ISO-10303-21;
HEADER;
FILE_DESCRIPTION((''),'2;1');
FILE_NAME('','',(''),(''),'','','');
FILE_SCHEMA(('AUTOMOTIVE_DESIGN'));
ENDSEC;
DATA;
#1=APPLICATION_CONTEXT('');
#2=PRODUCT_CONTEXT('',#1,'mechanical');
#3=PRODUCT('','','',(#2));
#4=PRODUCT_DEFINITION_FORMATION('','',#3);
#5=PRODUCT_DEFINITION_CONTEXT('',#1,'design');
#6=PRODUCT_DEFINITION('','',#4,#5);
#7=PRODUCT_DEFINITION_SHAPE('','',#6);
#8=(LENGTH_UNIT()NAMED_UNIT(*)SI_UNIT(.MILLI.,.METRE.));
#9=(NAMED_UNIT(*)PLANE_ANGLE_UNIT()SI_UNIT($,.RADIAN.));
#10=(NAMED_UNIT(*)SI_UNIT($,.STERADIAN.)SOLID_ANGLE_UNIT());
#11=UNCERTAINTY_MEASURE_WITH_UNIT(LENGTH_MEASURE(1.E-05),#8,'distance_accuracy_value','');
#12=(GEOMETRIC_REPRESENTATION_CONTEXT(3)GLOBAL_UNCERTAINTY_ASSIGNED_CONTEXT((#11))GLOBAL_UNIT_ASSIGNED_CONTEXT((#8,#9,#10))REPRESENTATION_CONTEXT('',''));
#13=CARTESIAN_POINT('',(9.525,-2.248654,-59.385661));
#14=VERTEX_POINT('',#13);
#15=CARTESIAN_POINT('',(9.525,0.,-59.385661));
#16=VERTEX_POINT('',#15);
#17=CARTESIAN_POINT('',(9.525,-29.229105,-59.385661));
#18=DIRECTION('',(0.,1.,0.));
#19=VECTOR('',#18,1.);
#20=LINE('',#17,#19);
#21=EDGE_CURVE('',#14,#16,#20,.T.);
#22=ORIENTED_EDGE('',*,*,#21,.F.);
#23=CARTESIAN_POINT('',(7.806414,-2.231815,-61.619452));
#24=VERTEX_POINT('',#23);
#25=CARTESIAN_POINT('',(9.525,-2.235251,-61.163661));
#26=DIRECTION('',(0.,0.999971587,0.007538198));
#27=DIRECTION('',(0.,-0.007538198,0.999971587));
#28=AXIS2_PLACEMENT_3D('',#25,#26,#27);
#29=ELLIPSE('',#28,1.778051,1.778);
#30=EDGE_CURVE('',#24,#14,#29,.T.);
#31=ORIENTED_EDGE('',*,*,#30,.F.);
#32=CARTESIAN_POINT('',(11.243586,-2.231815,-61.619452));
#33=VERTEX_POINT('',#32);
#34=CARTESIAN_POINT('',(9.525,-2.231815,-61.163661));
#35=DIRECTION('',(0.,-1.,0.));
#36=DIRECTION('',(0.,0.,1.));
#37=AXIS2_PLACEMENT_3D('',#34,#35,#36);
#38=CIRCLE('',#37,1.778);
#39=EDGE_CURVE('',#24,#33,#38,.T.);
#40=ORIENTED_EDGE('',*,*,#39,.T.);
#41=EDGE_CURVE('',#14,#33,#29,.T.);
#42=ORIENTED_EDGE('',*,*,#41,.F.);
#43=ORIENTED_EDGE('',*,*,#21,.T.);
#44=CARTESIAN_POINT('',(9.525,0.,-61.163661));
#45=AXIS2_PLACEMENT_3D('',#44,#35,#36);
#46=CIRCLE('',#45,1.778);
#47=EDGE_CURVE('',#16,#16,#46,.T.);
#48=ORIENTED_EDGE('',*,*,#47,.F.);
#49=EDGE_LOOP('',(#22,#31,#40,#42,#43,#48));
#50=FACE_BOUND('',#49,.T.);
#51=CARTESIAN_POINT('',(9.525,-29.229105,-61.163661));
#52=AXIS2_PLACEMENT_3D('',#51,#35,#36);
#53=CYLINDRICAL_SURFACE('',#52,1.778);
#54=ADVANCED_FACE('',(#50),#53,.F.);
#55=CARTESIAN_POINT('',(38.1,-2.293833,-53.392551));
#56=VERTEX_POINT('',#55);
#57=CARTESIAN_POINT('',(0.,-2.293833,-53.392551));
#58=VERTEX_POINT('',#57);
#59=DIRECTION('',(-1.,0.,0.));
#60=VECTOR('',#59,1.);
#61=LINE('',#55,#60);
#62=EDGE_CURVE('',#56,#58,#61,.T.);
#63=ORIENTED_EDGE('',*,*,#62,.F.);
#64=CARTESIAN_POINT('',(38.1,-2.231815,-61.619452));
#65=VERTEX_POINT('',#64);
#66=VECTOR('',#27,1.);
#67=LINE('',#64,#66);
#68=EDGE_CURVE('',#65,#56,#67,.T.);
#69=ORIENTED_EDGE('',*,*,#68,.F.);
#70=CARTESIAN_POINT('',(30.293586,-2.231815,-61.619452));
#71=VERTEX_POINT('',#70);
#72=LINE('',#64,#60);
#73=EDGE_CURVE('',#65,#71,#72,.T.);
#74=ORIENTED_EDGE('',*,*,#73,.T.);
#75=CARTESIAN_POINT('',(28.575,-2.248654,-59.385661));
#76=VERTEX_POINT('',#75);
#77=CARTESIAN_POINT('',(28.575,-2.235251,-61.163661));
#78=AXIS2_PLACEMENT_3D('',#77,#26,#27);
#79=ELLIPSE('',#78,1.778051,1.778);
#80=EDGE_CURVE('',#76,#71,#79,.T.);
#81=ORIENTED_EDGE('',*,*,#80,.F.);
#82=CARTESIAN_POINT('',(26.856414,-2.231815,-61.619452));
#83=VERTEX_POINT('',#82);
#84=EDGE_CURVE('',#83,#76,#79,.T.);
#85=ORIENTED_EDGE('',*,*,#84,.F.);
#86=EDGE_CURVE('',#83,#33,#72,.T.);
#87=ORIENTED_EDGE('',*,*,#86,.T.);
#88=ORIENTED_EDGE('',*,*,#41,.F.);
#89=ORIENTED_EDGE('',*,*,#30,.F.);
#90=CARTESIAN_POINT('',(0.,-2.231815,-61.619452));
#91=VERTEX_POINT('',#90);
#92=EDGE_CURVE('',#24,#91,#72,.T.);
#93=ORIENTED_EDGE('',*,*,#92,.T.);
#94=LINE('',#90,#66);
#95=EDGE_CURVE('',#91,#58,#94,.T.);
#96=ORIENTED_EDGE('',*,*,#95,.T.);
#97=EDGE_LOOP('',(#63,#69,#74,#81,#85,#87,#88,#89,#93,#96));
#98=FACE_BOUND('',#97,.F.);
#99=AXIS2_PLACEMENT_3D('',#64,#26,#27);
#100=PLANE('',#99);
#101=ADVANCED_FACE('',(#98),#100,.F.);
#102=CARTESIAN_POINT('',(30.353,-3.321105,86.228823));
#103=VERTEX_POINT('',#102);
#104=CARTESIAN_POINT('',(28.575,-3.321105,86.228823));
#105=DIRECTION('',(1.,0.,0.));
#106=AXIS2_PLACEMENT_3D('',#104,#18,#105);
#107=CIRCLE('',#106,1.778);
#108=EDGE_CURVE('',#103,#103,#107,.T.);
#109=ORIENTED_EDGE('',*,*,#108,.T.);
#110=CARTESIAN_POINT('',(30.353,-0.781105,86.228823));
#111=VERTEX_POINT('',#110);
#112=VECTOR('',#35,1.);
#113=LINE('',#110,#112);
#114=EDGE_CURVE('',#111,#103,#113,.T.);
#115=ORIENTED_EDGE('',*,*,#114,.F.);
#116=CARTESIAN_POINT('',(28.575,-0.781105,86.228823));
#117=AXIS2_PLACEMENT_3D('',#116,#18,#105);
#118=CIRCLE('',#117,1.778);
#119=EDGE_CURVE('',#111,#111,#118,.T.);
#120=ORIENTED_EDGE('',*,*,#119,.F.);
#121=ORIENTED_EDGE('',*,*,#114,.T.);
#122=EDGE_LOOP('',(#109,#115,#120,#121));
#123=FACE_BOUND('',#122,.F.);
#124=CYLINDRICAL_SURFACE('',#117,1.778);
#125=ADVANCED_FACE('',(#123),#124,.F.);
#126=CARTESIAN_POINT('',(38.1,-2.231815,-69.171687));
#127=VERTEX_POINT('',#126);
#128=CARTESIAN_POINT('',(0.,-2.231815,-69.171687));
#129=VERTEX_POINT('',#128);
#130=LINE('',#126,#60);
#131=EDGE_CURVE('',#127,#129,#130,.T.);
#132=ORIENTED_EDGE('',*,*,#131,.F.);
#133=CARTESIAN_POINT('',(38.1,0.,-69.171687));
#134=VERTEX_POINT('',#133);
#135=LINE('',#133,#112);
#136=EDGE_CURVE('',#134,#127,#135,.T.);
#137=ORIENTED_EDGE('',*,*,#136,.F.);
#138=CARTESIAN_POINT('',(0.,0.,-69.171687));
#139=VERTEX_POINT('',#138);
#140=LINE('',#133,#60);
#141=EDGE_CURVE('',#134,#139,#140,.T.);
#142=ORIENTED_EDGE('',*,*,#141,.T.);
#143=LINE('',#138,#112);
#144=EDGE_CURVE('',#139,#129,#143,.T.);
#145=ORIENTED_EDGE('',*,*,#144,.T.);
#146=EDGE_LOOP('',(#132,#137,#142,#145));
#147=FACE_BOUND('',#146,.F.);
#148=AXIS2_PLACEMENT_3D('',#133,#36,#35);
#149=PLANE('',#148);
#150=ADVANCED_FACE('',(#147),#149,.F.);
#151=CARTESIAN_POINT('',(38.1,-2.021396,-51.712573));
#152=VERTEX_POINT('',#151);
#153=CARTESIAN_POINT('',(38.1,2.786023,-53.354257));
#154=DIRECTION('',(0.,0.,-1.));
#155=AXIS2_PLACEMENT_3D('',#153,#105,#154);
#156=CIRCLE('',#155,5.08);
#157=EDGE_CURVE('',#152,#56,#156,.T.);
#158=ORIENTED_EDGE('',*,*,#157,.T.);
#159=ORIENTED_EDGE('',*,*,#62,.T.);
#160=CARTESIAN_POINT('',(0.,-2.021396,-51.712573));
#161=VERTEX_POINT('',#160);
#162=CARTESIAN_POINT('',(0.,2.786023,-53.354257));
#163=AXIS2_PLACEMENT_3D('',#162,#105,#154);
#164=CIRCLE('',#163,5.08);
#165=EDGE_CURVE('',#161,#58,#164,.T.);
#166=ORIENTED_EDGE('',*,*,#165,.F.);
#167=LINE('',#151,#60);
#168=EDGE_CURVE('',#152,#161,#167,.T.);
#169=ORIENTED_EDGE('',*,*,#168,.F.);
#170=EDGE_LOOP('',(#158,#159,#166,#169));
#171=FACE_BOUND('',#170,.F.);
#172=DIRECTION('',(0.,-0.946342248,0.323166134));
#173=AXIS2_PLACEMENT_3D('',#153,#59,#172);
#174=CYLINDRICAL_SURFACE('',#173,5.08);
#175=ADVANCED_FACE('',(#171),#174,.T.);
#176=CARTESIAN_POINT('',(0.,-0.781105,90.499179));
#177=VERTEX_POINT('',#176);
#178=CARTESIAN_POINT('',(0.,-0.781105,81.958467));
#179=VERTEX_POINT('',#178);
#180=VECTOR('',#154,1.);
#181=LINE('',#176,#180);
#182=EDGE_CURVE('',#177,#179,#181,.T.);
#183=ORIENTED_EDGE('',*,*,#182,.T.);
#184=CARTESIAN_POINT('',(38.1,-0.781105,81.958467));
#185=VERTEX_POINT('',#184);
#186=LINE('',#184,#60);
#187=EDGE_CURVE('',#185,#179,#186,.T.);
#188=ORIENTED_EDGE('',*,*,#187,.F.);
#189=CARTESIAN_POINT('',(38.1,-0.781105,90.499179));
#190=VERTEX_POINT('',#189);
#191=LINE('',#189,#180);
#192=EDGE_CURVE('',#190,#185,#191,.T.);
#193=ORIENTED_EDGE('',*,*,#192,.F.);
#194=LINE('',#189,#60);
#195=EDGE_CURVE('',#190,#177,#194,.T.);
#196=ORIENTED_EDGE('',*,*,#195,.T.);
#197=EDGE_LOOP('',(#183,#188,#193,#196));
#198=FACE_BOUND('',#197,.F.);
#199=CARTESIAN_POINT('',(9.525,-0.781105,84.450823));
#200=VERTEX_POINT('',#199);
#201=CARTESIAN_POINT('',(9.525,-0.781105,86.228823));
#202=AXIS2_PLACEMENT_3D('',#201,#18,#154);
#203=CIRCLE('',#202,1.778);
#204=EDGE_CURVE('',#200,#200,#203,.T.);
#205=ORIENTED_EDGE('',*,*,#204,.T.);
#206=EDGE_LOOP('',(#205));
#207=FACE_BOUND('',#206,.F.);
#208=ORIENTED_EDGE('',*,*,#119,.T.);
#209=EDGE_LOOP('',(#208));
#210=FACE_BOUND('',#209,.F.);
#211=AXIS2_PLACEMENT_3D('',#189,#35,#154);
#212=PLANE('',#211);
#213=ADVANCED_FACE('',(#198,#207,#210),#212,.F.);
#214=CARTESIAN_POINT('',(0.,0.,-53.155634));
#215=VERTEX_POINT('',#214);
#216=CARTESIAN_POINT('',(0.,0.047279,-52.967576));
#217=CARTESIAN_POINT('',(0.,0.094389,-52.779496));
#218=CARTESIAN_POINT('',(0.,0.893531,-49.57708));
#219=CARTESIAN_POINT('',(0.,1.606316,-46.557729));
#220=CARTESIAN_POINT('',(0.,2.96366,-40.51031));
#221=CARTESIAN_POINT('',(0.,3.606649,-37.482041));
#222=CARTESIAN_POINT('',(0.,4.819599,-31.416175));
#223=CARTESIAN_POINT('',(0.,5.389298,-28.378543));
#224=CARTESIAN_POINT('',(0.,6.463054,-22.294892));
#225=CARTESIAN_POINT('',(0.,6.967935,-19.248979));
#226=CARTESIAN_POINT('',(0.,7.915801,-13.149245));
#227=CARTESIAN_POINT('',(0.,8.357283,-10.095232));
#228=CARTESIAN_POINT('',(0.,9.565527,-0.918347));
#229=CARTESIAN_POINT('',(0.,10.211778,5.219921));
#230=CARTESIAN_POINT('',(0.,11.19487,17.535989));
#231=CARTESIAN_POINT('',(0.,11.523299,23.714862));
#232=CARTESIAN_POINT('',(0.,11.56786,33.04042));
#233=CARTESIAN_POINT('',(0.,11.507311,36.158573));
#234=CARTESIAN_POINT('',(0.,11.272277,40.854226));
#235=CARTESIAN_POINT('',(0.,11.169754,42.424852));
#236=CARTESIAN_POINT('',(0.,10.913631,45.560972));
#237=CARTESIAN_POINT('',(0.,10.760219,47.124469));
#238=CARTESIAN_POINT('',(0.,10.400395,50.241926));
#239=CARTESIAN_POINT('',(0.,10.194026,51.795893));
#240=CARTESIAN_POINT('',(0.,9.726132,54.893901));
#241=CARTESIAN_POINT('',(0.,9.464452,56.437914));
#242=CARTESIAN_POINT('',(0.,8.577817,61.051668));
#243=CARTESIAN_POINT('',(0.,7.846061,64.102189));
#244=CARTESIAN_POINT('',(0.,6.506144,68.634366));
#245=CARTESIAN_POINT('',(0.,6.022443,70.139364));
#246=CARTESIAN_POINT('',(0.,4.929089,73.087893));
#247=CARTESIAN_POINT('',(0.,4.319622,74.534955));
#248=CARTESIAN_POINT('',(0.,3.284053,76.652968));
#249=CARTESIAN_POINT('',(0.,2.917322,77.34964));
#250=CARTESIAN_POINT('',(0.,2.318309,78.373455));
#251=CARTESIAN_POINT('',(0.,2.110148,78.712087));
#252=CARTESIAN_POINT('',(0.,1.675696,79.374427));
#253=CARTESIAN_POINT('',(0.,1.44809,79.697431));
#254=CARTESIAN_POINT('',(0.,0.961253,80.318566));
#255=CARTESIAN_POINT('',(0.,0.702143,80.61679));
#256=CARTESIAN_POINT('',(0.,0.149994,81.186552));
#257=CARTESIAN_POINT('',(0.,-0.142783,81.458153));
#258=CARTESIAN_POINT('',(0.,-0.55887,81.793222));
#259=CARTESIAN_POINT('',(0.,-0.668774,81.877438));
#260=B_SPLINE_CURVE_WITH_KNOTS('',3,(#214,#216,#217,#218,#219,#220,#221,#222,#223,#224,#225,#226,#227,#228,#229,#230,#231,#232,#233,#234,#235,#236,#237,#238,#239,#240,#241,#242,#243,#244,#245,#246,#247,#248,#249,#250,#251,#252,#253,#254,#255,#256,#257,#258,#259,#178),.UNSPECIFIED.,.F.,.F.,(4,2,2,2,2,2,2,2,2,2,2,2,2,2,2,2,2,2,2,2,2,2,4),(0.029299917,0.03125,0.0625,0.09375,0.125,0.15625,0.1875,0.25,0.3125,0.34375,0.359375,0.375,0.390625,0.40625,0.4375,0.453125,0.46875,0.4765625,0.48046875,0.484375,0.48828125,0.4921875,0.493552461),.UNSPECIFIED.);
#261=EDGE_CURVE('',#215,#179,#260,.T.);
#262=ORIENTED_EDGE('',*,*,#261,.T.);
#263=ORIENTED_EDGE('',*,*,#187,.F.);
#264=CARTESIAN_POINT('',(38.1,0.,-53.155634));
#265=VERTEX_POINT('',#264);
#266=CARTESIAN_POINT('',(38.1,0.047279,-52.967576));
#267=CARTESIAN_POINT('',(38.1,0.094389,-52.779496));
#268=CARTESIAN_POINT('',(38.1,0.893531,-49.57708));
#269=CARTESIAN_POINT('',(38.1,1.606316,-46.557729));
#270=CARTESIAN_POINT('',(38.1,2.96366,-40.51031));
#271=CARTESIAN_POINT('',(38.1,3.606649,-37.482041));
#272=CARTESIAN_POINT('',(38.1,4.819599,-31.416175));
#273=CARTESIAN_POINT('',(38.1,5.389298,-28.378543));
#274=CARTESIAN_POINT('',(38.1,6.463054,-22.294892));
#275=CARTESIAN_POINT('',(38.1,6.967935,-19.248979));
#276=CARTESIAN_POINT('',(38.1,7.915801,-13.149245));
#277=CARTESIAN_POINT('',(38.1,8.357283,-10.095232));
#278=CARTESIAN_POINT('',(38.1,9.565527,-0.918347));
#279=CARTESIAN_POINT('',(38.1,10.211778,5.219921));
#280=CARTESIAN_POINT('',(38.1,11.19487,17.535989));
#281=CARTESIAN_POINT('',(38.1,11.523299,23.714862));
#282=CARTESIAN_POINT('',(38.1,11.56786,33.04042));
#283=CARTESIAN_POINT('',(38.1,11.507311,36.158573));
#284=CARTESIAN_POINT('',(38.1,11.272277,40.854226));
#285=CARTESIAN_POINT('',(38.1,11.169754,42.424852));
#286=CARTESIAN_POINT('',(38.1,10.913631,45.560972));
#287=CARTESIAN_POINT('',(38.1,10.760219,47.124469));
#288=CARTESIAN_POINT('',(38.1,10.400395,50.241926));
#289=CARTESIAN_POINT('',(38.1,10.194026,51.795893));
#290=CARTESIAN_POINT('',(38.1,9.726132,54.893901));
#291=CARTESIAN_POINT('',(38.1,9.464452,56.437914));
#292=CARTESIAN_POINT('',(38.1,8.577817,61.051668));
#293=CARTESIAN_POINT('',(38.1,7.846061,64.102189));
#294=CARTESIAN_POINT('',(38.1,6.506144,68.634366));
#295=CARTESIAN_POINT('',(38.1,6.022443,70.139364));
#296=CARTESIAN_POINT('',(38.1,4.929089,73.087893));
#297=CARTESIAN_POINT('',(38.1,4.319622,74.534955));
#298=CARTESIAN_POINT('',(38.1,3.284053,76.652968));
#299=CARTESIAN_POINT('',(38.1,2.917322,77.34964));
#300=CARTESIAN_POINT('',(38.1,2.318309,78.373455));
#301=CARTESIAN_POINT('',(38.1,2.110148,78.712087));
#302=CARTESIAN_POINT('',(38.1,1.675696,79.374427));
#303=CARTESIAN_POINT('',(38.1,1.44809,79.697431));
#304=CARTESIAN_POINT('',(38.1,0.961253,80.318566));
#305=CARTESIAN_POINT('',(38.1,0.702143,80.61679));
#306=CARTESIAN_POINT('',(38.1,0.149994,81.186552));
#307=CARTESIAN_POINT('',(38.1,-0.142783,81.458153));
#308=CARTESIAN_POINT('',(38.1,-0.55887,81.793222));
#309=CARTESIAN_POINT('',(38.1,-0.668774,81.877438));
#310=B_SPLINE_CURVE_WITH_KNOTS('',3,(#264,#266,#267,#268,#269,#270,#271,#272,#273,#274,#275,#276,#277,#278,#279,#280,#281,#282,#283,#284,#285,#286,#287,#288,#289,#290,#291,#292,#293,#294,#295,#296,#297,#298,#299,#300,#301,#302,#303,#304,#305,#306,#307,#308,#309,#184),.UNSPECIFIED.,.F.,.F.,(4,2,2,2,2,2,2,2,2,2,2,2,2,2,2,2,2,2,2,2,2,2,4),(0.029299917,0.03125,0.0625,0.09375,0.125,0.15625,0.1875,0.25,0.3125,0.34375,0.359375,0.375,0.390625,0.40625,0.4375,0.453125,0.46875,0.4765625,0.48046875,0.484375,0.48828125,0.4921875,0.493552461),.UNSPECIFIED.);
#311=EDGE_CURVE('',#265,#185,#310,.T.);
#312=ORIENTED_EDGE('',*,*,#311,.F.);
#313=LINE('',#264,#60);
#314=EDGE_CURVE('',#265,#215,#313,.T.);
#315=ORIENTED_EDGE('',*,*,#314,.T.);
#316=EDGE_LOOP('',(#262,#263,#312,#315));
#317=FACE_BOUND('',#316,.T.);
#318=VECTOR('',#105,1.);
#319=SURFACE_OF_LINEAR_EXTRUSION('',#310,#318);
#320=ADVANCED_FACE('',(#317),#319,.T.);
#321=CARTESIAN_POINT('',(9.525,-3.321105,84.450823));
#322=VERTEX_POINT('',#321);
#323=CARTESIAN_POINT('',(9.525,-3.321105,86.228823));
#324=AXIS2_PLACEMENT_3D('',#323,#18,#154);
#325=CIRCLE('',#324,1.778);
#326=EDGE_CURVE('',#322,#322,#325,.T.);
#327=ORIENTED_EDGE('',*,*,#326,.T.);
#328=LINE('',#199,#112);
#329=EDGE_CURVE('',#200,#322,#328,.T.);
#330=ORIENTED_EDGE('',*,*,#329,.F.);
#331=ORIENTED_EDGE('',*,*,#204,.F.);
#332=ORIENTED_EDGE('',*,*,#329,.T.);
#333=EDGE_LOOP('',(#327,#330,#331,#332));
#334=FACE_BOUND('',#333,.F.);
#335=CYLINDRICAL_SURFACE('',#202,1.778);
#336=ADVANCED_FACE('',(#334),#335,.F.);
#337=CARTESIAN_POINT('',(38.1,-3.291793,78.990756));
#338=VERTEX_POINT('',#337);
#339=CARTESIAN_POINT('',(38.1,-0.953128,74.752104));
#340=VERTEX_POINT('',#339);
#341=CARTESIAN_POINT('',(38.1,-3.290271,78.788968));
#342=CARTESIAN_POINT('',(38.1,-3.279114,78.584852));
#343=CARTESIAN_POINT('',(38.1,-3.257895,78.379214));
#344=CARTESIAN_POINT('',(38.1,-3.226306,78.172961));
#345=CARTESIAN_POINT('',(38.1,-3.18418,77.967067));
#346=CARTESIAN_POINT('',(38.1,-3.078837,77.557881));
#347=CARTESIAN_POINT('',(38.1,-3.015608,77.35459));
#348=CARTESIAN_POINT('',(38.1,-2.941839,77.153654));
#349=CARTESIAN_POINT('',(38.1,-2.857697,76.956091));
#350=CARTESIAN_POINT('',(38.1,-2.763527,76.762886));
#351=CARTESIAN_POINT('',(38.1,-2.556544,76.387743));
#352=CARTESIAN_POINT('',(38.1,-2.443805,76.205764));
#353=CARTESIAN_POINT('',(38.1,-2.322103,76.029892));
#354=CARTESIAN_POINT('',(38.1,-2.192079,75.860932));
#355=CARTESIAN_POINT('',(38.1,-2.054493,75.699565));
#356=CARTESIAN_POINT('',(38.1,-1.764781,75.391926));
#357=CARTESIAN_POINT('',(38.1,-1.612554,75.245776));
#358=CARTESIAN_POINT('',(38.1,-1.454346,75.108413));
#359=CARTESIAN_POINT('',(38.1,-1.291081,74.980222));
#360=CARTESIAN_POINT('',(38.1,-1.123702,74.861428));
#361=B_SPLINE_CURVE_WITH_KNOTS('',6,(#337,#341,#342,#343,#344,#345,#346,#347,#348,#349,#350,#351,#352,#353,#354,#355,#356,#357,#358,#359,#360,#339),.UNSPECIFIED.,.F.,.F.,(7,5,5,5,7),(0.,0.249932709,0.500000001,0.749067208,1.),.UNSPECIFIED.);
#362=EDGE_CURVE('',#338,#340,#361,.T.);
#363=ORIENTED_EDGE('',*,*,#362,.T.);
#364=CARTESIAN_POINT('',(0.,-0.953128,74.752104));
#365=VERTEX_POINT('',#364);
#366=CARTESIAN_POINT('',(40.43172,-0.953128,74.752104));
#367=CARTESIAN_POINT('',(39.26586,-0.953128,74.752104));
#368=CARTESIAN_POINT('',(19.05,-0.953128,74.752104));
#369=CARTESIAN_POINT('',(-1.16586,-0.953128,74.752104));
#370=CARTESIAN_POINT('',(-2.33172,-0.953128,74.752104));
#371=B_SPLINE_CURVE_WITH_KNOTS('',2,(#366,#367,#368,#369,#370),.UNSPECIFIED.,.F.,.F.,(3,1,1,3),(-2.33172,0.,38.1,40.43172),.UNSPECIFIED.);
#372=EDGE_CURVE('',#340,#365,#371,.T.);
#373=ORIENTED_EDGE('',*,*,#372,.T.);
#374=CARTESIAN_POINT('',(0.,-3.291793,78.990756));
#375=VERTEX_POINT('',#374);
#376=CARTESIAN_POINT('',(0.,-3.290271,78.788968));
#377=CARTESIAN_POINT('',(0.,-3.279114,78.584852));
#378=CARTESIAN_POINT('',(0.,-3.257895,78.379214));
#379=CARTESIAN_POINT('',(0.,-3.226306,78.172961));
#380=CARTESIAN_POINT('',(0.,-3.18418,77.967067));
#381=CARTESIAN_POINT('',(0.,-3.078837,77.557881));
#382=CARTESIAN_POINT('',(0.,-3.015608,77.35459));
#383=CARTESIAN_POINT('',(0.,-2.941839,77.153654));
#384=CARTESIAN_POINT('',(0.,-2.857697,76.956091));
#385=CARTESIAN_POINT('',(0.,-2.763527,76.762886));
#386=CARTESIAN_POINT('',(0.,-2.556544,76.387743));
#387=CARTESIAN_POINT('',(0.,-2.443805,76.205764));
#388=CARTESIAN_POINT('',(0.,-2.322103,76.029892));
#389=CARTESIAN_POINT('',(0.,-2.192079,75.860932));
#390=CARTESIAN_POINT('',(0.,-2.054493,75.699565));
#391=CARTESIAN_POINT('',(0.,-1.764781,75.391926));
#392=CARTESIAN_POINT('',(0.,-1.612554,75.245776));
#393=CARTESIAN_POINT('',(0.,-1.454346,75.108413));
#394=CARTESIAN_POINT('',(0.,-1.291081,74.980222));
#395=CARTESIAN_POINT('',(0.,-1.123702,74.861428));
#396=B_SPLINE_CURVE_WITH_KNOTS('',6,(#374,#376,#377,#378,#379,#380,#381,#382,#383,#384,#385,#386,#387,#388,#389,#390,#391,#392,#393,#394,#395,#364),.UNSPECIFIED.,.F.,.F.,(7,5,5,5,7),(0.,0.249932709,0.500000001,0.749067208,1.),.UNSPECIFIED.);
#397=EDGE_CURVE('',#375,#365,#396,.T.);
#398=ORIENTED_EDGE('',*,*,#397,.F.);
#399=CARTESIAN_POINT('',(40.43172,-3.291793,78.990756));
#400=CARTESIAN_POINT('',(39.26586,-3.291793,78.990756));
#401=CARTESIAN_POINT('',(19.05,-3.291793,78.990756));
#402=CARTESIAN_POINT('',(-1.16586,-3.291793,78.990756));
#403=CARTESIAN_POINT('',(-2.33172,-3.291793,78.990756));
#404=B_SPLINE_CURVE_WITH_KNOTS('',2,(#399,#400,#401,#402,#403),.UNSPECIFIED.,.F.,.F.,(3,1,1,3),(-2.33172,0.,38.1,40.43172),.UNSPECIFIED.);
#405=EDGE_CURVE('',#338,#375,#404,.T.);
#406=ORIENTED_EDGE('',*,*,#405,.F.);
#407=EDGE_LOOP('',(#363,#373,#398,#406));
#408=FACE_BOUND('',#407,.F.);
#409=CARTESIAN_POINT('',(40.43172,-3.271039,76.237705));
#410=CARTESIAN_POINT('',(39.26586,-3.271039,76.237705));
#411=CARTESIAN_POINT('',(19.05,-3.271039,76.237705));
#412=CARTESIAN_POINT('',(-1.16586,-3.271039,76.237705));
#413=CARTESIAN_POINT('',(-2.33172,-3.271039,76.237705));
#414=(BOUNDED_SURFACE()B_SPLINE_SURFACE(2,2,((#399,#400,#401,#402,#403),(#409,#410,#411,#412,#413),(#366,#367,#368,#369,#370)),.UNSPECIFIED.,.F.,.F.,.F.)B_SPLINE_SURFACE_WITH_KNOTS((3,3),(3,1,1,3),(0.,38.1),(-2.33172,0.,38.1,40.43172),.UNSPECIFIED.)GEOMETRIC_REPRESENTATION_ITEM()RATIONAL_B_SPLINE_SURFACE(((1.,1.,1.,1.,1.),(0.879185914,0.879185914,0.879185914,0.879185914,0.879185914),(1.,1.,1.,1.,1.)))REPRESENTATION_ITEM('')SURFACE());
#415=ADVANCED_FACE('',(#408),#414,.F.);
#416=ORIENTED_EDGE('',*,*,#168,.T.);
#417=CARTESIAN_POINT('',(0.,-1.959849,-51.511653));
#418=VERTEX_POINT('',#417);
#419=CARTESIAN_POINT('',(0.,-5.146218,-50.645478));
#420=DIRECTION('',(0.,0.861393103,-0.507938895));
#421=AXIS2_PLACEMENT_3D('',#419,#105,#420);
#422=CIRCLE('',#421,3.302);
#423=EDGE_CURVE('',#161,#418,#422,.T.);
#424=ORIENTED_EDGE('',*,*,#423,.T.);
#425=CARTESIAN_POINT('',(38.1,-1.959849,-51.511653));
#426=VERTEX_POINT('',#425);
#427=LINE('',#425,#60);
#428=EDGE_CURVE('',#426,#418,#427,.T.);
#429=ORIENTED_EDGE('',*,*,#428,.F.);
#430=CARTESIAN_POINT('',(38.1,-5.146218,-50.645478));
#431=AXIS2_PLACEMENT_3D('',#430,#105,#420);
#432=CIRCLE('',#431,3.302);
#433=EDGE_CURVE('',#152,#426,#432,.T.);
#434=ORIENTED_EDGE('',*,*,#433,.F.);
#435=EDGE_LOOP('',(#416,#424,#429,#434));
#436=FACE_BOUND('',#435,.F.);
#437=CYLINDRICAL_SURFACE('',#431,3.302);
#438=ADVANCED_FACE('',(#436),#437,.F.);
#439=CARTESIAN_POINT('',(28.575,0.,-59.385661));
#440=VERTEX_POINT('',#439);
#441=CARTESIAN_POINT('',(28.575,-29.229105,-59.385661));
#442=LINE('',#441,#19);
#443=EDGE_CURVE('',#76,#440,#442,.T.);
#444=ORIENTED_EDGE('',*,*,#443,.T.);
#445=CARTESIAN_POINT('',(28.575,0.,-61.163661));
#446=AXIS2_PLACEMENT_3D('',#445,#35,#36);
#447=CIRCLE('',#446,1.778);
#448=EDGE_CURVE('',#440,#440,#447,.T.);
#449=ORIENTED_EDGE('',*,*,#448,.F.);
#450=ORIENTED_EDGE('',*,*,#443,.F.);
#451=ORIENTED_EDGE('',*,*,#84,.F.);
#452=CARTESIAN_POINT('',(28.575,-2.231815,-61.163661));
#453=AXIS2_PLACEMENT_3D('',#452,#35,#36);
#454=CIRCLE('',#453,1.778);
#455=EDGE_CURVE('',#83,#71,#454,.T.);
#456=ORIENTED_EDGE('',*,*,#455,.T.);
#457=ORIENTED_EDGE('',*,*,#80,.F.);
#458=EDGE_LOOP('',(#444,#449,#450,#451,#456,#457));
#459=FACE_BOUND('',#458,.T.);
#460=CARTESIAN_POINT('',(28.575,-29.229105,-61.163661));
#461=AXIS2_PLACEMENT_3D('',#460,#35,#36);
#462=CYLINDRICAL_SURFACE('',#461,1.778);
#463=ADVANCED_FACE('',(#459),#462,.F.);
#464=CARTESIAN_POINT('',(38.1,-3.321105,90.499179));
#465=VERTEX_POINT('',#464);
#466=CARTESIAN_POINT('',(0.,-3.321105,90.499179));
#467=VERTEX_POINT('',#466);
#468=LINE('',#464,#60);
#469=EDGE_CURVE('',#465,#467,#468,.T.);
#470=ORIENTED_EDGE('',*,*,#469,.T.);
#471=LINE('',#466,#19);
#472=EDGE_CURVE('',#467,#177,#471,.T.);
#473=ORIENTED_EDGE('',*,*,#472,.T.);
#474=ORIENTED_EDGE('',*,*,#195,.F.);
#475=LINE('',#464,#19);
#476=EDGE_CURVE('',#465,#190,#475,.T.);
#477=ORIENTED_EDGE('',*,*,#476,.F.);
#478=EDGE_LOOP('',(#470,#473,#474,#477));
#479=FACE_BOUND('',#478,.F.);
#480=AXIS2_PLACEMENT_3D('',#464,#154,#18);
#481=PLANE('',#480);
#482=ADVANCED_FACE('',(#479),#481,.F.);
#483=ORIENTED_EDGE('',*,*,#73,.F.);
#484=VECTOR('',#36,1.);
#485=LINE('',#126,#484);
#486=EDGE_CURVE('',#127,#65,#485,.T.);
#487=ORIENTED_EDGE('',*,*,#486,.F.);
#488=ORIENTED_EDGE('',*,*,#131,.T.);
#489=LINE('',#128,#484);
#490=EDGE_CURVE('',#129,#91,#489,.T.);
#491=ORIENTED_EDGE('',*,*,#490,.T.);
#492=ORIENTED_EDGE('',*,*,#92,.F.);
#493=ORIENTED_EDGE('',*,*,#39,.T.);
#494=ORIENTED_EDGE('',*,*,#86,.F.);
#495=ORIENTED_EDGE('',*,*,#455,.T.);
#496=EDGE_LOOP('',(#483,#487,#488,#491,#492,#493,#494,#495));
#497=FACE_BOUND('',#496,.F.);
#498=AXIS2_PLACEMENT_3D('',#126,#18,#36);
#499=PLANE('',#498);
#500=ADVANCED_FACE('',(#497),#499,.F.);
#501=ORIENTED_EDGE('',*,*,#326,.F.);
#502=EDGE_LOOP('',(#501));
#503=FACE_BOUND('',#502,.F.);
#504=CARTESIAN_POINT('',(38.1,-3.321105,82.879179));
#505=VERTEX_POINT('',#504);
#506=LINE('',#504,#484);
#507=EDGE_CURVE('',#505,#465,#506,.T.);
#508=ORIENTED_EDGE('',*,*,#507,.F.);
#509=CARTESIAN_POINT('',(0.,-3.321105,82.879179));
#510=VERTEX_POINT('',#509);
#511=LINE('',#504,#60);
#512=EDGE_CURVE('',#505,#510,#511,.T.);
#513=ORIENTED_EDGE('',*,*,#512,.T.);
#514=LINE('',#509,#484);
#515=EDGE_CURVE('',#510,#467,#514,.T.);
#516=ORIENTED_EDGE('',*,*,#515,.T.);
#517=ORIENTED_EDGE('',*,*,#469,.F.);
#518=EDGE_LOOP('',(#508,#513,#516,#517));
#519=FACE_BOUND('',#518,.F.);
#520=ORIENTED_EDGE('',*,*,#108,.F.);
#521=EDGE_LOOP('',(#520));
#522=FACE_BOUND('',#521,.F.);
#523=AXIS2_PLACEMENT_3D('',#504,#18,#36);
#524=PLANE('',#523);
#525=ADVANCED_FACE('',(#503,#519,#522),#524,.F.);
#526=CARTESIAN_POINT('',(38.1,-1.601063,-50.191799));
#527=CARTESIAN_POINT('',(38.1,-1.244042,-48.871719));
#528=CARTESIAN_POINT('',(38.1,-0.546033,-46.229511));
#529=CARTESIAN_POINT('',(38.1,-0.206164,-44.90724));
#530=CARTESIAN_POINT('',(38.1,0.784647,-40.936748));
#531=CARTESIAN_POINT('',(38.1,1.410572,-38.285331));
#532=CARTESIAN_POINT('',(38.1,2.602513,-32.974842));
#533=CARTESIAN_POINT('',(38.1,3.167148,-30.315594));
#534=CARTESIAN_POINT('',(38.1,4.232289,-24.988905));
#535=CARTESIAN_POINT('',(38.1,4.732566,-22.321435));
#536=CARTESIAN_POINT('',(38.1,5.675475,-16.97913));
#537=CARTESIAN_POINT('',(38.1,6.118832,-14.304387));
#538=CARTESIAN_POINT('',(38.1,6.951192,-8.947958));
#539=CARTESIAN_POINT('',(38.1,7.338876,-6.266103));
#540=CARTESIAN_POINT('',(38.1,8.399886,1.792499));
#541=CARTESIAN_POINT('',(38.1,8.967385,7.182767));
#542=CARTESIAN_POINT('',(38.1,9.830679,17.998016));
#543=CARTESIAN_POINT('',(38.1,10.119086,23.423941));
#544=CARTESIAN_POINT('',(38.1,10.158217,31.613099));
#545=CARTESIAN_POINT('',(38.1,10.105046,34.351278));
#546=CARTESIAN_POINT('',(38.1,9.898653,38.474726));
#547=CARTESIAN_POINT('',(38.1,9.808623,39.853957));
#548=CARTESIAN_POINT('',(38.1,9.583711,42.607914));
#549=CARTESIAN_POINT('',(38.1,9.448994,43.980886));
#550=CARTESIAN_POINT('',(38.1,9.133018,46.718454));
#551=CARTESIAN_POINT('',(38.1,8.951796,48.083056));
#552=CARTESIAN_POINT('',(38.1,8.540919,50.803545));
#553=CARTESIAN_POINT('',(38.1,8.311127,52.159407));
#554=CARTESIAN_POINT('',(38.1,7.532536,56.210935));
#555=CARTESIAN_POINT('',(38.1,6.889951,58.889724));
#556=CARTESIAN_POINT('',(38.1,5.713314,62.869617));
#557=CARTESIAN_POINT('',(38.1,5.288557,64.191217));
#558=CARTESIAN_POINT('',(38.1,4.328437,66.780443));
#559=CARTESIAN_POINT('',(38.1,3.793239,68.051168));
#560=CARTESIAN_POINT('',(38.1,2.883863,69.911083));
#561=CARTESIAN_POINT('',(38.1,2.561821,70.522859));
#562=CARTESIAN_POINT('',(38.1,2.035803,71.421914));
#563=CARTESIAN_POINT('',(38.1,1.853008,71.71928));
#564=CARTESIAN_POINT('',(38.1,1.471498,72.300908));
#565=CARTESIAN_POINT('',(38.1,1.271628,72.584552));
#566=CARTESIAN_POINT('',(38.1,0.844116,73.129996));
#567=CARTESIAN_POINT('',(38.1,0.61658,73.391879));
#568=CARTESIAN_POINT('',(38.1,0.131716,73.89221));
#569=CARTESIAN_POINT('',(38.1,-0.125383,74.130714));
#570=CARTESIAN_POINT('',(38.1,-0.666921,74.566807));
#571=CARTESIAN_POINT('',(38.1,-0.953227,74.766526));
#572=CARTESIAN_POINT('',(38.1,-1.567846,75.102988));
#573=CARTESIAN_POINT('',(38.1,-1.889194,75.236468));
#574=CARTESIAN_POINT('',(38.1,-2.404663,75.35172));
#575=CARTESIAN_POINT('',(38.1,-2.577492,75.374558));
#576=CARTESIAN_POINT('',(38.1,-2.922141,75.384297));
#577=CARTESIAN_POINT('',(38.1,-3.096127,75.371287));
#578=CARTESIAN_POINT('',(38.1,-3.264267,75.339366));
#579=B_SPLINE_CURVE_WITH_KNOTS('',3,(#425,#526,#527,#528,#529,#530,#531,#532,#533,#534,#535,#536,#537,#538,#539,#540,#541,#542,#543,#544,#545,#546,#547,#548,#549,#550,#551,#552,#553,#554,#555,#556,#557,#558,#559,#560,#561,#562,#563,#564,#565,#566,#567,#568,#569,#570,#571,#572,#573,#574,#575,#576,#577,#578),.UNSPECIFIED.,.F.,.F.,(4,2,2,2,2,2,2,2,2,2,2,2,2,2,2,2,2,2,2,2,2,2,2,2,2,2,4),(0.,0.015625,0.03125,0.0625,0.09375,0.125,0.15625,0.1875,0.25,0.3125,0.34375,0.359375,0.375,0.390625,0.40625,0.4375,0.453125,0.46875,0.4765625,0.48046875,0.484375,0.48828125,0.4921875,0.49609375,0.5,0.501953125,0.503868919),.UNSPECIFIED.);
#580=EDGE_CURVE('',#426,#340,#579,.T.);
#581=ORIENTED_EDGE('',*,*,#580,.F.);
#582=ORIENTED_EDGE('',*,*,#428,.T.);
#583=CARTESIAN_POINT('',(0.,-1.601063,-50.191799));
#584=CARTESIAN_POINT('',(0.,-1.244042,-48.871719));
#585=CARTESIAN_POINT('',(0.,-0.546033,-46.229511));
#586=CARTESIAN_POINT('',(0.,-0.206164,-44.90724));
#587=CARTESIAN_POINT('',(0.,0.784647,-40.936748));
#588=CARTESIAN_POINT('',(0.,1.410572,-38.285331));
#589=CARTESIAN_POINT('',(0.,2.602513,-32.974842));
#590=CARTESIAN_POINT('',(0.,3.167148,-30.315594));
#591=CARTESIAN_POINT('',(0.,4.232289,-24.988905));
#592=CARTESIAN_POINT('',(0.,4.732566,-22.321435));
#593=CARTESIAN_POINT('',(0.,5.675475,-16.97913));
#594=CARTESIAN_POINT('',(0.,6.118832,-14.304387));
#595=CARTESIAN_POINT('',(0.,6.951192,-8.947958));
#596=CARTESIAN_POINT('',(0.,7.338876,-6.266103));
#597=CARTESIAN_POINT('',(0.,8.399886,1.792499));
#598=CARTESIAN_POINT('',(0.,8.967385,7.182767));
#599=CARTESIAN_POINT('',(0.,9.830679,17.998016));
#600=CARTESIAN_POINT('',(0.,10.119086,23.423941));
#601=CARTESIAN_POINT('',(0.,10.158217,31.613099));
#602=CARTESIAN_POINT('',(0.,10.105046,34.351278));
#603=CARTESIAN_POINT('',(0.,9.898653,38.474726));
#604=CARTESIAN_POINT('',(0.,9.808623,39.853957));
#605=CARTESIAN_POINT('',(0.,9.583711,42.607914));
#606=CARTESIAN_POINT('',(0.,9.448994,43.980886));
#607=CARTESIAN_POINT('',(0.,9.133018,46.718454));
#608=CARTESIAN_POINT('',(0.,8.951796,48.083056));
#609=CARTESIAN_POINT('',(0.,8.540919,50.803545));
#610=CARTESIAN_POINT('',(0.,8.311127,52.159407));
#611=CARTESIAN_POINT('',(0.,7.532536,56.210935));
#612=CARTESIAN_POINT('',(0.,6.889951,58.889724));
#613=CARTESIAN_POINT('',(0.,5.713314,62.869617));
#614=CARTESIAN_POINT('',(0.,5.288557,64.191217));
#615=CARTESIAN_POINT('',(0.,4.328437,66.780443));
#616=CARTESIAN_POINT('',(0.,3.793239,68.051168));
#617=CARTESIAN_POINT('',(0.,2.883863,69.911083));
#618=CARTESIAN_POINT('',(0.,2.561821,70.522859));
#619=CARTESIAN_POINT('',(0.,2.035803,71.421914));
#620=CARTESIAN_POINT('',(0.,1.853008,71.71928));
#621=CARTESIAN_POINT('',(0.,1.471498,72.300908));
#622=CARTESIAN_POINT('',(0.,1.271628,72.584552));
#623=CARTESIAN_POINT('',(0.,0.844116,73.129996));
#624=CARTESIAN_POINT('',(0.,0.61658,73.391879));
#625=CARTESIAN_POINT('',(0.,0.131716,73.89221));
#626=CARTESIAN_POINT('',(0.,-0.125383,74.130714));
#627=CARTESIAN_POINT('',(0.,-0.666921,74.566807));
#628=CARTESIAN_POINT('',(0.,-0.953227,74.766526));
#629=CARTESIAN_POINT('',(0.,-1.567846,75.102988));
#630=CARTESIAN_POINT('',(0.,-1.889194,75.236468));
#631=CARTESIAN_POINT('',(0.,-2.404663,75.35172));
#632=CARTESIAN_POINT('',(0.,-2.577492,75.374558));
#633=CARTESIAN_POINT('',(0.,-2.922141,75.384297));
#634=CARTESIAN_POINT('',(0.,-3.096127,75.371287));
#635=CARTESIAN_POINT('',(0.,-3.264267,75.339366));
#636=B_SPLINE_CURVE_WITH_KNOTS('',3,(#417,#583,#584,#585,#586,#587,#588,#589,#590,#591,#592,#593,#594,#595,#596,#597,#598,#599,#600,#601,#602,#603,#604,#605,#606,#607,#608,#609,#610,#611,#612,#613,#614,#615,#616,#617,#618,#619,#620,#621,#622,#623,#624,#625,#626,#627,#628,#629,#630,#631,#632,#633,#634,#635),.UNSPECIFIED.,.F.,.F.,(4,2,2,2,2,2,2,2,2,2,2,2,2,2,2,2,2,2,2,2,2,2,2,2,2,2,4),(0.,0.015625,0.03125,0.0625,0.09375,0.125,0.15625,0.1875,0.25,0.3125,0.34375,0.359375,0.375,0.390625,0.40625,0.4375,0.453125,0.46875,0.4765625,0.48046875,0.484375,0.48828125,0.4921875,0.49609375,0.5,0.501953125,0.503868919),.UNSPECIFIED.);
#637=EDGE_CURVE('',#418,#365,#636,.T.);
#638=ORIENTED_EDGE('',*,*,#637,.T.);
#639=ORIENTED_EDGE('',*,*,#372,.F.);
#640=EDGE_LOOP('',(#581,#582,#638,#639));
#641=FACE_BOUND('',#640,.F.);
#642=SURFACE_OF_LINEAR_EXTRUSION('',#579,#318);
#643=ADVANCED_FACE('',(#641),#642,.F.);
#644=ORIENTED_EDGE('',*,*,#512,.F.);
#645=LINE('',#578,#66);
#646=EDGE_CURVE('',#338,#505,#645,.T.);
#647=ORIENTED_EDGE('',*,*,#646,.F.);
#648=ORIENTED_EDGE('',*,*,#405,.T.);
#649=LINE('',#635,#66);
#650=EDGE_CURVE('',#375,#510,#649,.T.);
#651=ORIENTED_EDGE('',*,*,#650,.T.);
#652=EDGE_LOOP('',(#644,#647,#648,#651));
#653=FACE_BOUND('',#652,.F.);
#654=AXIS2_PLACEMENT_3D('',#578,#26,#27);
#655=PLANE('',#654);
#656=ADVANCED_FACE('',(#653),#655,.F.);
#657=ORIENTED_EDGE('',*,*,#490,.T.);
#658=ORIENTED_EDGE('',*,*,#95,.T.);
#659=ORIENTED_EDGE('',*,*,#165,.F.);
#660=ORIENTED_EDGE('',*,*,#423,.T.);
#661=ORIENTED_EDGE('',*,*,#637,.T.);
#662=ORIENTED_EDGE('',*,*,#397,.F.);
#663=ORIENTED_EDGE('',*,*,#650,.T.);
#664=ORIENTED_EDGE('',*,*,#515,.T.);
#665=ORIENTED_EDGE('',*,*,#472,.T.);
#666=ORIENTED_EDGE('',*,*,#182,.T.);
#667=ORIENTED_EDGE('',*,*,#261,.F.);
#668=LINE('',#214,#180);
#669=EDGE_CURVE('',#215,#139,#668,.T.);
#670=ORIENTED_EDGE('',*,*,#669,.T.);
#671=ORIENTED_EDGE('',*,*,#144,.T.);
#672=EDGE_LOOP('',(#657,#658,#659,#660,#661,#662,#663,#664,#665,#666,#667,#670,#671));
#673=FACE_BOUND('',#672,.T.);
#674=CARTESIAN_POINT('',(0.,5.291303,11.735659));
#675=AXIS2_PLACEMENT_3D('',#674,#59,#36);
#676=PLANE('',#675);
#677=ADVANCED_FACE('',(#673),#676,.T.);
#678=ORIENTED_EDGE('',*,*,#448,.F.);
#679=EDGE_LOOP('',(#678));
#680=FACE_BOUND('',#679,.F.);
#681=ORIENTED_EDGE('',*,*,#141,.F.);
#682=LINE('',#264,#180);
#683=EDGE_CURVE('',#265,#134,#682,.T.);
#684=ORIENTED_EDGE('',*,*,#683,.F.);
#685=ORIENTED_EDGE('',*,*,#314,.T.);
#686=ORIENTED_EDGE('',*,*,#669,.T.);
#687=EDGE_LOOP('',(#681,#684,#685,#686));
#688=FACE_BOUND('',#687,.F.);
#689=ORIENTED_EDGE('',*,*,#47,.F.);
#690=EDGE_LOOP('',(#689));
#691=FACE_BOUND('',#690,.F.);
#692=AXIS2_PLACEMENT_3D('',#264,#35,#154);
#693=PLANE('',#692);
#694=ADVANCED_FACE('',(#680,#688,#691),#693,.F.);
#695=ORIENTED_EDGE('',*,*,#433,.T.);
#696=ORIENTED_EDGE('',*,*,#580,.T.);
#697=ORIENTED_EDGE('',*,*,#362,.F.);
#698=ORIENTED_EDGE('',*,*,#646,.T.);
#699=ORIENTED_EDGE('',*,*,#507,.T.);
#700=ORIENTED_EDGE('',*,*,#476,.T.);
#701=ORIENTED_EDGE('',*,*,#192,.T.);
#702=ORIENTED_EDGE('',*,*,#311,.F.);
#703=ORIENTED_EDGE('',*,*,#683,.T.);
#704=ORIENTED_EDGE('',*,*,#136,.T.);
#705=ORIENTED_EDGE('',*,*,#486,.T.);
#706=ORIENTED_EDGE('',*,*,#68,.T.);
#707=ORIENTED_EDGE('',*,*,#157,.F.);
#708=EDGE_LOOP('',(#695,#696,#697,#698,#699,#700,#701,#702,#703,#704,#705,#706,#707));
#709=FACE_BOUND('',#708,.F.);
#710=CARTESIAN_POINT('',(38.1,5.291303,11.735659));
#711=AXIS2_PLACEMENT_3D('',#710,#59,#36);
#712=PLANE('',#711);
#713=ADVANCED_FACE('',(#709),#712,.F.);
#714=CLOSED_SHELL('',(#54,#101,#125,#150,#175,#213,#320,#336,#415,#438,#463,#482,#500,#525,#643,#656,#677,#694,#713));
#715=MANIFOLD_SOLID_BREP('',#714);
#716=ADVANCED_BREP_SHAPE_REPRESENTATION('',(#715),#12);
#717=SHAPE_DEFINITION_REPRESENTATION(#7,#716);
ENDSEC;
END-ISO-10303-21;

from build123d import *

# Parameters (mm, degrees)
BOSS_EXTRUDE1_DEPTH     = 38.1
SKETCH3_R               = 1.778
CUT_EXTRUDE1_DEPTH      = 38.1
CUT_EXTRUDE3_DEPTH      = 11.938
CUT_EXTRUDE3_DEPTH_BACK = 28.448
SKETCH4_R               = 1.778
BODY_MOVE_COPY1_ANGLE   = 180
FILLET1_R               = 5.08
FILLET2_R               = 5.08


with BuildPart() as part:
    # Sketch2 → Boss-Extrude1 (new body)
    with BuildSketch(Plane(origin=(0, 0, 0), x_dir=(0, 0, -1), z_dir=(1, 0, 0))):
        with BuildLine():
            Line((61.551687437, -3.321105161), (69.171687437, -3.321105161))
            Line((69.171687437, -3.321105161), (69.171687437, -0.781105161))
            Line((69.171687437, -0.781105161), (60.630976158, -0.781105161))
            add(Edge.make_bspline(
                [(-74.483124949, 0), (-74.29506702, 0.047278952), (-74.10698747, 0.094388678), (-70.904571083, 0.893531227), (-67.885219866, 1.606315794), (-61.837800978, 2.963660005), (-58.809532664, 3.606649181), (-52.743665837, 4.819598746), (-49.706033948, 5.389297888), (-43.622383657, 6.463053748), (-40.576470595, 6.967934975), (-34.476736535, 7.915800889), (-31.422723589, 8.357283165), (-22.245838635, 9.56552735), (-16.107570019, 10.211777803), (-3.79150253, 11.194869773), (2.387371081, 11.523299152), (11.712928825, 11.567860245), (14.83108155, 11.507311348), (19.526735057, 11.272277451), (21.09736044, 11.169754089), (24.233480366, 10.913630723), (25.796978104, 10.760219025), (28.914435137, 10.400395235), (30.468402117, 10.194025854), (33.566409835, 9.726131888), (35.110422635, 9.464452072), (39.7241769, 8.577816768), (42.774697618, 7.846061144), (47.306875011, 6.506143704), (48.811872451, 6.022443493), (51.760401832, 4.929089412), (53.207463955, 4.319622251), (55.32547656, 3.284052789), (56.022148657, 2.917322209), (57.045964203, 2.318308681), (57.384595606, 2.110148), (58.046935353, 1.675696382), (58.369940132, 1.448090073), (58.991074857, 0.961253421), (59.289298742, 0.702142505), (59.859060755, 0.149994367), (60.130661436, -0.142782581), (60.465730526, -0.558869775), (60.549947208, -0.668774479), (60.630976158, -0.781105161)],
                knots=[0.029299917, 0.029299917, 0.029299917, 0.029299917, 0.03125, 0.03125, 0.0625, 0.0625, 0.09375, 0.09375, 0.125, 0.125, 0.15625, 0.15625, 0.1875, 0.1875, 0.25, 0.25, 0.3125, 0.3125, 0.34375, 0.34375, 0.359375, 0.359375, 0.375, 0.375, 0.390625, 0.390625, 0.40625, 0.40625, 0.4375, 0.4375, 0.453125, 0.453125, 0.46875, 0.46875, 0.4765625, 0.4765625, 0.48046875, 0.48046875, 0.484375, 0.484375, 0.48828125, 0.48828125, 0.4921875, 0.4921875, 0.493552461, 0.493552461, 0.493552461, 0.493552461], degree=3))
            Line((-74.483124949, 0), (-90.499178662, 0))
            Line((-90.499178662, 0), (-90.499178662, -2.231815001))
            Line((-90.499178662, -2.231815001), (-82.946942991, -2.231815001))
            Line((-82.946942991, -2.231815001), (-73.650183958, -2.301897798))
            ThreePointArc((-73.650183958, -2.301897798), (-73.256112799, -2.103727422), (-72.839144435, -1.959849143))
            add(Edge.make_bspline(
                [(-72.839144435, -1.959849143), (-71.519290177, -1.601063172), (-70.199210435, -1.244042105), (-67.557002621, -0.546032536), (-66.234731433, -0.206164224), (-62.264239138, 0.784646761), (-59.612821841, 1.410572396), (-54.302332968, 2.602512538), (-51.643085198, 3.167147951), (-46.316396426, 4.232289177), (-43.648926114, 4.732565578), (-38.306620945, 5.675475048), (-35.631878593, 6.118832154), (-30.275449601, 6.951192452), (-27.593594404, 7.338876315), (-19.534991827, 8.399885551), (-14.144724046, 8.967384827), (-3.32947533, 9.830678583), (2.096449378, 10.119086016), (10.285607687, 10.158216956), (13.023786679, 10.105046463), (17.147234411, 9.898653467), (18.52646558, 9.808623459), (21.280422314, 9.583710928), (22.653394403, 9.448993765), (25.390962478, 9.1330176), (26.755565214, 8.951796103), (29.476054041, 8.540919041), (30.831915599, 8.311127162), (34.883444217, 7.532535997), (37.562232743, 6.88995109), (41.542125332, 5.713314117), (42.863725887, 5.288556937), (45.452951599, 4.328437457), (46.723676753, 3.793239112), (48.583591302, 2.883862698), (49.195367911, 2.561821393), (50.094422725, 2.035802816), (50.391788978, 1.853008305), (50.973416929, 1.471498355), (51.257060798, 1.271627832), (51.802504913, 0.844116414), (52.064387652, 0.616580392), (52.564719262, 0.131716255), (52.803223064, -0.125383304), (53.239315406, -0.66692069), (53.439034885, -0.953227075), (53.77549654, -1.567845752), (53.908977144, -1.889194183), (54.024229, -2.404662563), (54.047066399, -2.577492013), (54.056805302, -2.922141279), (54.04379582, -3.096126776), (54.011875168, -3.264266952)],
                knots=[0, 0, 0, 0, 0.015625, 0.015625, 0.03125, 0.03125, 0.0625, 0.0625, 0.09375, 0.09375, 0.125, 0.125, 0.15625, 0.15625, 0.1875, 0.1875, 0.25, 0.25, 0.3125, 0.3125, 0.34375, 0.34375, 0.359375, 0.359375, 0.375, 0.375, 0.390625, 0.390625, 0.40625, 0.40625, 0.4375, 0.4375, 0.453125, 0.453125, 0.46875, 0.46875, 0.4765625, 0.4765625, 0.48046875, 0.48046875, 0.484375, 0.484375, 0.48828125, 0.48828125, 0.4921875, 0.4921875, 0.49609375, 0.49609375, 0.5, 0.5, 0.501953125, 0.501953125, 0.503868919, 0.503868919, 0.503868919, 0.503868919], degree=3))
            Line((54.011875168, -3.264266952), (61.551687437, -3.321105161))
        make_face()
    extrude(amount=BOSS_EXTRUDE1_DEPTH)

    # Sketch3 → Cut-Extrude1 (cut)
    with BuildSketch(Plane(origin=(0, -0.781105161, 0), x_dir=(1, 0, 0), z_dir=(0, 1, 0))):
        with BuildLine():
            ThreePointArc((11.303, 64.901331798), (9.525, 66.679331798), (7.747, 64.901331798))
            Line((7.747, 64.901331798), (11.303, 64.901331798))
        make_face()
        with BuildLine():
            Line((11.303, 64.901331798), (7.747, 64.901331798))
            ThreePointArc((7.747, 64.901331798), (9.525, 63.123331798), (11.303, 64.901331798))
        make_face()
        with Locations(Location((28.575, 64.901331798, 0), (0, 0, 270))):
            Circle(SKETCH3_R)
    extrude(amount=-CUT_EXTRUDE1_DEPTH, mode=Mode.SUBTRACT)

    # Sketch4 → Cut-Extrude3 (cut, two sides: drawn at the far end of the back side and taken through both)
    with BuildSketch(Plane(origin=(0, -0.781105161, 0), x_dir=(1, 0, 0), z_dir=(0, 1, 0)).offset(-CUT_EXTRUDE3_DEPTH_BACK)):
        with Locations(Location((9.525, -82.491151805, 0), (0, 0, 90))):
            Circle(SKETCH4_R)
        with Locations(Location((28.575, -82.491151805, 0), (0, 0, 90))):
            Circle(SKETCH4_R)
    extrude(amount=CUT_EXTRUDE3_DEPTH + CUT_EXTRUDE3_DEPTH_BACK, mode=Mode.SUBTRACT)


with BuildPart() as part_1:
    # Body-Move/Copy1: moved
    add(part.part.rotate(Axis((19.05, 0, 10.663745612), (0, 1, 0)), BODY_MOVE_COPY1_ANGLE))

    # Fillet1
    fillet1_edges = [part_1.edges().sort_by_distance(p)[0] for p in [
        (19.05, -3.264266952, 75.339366393),
    ]]
    fillet(fillet1_edges, radius=FILLET1_R)

    # Fillet2
    fillet2_edges = [part_1.edges().sort_by_distance(p)[0] for p in [
        (19.05, -2.301897798, -52.322692734),
    ]]
    fillet(fillet2_edges, radius=FILLET2_R)


solid = part_1.part
